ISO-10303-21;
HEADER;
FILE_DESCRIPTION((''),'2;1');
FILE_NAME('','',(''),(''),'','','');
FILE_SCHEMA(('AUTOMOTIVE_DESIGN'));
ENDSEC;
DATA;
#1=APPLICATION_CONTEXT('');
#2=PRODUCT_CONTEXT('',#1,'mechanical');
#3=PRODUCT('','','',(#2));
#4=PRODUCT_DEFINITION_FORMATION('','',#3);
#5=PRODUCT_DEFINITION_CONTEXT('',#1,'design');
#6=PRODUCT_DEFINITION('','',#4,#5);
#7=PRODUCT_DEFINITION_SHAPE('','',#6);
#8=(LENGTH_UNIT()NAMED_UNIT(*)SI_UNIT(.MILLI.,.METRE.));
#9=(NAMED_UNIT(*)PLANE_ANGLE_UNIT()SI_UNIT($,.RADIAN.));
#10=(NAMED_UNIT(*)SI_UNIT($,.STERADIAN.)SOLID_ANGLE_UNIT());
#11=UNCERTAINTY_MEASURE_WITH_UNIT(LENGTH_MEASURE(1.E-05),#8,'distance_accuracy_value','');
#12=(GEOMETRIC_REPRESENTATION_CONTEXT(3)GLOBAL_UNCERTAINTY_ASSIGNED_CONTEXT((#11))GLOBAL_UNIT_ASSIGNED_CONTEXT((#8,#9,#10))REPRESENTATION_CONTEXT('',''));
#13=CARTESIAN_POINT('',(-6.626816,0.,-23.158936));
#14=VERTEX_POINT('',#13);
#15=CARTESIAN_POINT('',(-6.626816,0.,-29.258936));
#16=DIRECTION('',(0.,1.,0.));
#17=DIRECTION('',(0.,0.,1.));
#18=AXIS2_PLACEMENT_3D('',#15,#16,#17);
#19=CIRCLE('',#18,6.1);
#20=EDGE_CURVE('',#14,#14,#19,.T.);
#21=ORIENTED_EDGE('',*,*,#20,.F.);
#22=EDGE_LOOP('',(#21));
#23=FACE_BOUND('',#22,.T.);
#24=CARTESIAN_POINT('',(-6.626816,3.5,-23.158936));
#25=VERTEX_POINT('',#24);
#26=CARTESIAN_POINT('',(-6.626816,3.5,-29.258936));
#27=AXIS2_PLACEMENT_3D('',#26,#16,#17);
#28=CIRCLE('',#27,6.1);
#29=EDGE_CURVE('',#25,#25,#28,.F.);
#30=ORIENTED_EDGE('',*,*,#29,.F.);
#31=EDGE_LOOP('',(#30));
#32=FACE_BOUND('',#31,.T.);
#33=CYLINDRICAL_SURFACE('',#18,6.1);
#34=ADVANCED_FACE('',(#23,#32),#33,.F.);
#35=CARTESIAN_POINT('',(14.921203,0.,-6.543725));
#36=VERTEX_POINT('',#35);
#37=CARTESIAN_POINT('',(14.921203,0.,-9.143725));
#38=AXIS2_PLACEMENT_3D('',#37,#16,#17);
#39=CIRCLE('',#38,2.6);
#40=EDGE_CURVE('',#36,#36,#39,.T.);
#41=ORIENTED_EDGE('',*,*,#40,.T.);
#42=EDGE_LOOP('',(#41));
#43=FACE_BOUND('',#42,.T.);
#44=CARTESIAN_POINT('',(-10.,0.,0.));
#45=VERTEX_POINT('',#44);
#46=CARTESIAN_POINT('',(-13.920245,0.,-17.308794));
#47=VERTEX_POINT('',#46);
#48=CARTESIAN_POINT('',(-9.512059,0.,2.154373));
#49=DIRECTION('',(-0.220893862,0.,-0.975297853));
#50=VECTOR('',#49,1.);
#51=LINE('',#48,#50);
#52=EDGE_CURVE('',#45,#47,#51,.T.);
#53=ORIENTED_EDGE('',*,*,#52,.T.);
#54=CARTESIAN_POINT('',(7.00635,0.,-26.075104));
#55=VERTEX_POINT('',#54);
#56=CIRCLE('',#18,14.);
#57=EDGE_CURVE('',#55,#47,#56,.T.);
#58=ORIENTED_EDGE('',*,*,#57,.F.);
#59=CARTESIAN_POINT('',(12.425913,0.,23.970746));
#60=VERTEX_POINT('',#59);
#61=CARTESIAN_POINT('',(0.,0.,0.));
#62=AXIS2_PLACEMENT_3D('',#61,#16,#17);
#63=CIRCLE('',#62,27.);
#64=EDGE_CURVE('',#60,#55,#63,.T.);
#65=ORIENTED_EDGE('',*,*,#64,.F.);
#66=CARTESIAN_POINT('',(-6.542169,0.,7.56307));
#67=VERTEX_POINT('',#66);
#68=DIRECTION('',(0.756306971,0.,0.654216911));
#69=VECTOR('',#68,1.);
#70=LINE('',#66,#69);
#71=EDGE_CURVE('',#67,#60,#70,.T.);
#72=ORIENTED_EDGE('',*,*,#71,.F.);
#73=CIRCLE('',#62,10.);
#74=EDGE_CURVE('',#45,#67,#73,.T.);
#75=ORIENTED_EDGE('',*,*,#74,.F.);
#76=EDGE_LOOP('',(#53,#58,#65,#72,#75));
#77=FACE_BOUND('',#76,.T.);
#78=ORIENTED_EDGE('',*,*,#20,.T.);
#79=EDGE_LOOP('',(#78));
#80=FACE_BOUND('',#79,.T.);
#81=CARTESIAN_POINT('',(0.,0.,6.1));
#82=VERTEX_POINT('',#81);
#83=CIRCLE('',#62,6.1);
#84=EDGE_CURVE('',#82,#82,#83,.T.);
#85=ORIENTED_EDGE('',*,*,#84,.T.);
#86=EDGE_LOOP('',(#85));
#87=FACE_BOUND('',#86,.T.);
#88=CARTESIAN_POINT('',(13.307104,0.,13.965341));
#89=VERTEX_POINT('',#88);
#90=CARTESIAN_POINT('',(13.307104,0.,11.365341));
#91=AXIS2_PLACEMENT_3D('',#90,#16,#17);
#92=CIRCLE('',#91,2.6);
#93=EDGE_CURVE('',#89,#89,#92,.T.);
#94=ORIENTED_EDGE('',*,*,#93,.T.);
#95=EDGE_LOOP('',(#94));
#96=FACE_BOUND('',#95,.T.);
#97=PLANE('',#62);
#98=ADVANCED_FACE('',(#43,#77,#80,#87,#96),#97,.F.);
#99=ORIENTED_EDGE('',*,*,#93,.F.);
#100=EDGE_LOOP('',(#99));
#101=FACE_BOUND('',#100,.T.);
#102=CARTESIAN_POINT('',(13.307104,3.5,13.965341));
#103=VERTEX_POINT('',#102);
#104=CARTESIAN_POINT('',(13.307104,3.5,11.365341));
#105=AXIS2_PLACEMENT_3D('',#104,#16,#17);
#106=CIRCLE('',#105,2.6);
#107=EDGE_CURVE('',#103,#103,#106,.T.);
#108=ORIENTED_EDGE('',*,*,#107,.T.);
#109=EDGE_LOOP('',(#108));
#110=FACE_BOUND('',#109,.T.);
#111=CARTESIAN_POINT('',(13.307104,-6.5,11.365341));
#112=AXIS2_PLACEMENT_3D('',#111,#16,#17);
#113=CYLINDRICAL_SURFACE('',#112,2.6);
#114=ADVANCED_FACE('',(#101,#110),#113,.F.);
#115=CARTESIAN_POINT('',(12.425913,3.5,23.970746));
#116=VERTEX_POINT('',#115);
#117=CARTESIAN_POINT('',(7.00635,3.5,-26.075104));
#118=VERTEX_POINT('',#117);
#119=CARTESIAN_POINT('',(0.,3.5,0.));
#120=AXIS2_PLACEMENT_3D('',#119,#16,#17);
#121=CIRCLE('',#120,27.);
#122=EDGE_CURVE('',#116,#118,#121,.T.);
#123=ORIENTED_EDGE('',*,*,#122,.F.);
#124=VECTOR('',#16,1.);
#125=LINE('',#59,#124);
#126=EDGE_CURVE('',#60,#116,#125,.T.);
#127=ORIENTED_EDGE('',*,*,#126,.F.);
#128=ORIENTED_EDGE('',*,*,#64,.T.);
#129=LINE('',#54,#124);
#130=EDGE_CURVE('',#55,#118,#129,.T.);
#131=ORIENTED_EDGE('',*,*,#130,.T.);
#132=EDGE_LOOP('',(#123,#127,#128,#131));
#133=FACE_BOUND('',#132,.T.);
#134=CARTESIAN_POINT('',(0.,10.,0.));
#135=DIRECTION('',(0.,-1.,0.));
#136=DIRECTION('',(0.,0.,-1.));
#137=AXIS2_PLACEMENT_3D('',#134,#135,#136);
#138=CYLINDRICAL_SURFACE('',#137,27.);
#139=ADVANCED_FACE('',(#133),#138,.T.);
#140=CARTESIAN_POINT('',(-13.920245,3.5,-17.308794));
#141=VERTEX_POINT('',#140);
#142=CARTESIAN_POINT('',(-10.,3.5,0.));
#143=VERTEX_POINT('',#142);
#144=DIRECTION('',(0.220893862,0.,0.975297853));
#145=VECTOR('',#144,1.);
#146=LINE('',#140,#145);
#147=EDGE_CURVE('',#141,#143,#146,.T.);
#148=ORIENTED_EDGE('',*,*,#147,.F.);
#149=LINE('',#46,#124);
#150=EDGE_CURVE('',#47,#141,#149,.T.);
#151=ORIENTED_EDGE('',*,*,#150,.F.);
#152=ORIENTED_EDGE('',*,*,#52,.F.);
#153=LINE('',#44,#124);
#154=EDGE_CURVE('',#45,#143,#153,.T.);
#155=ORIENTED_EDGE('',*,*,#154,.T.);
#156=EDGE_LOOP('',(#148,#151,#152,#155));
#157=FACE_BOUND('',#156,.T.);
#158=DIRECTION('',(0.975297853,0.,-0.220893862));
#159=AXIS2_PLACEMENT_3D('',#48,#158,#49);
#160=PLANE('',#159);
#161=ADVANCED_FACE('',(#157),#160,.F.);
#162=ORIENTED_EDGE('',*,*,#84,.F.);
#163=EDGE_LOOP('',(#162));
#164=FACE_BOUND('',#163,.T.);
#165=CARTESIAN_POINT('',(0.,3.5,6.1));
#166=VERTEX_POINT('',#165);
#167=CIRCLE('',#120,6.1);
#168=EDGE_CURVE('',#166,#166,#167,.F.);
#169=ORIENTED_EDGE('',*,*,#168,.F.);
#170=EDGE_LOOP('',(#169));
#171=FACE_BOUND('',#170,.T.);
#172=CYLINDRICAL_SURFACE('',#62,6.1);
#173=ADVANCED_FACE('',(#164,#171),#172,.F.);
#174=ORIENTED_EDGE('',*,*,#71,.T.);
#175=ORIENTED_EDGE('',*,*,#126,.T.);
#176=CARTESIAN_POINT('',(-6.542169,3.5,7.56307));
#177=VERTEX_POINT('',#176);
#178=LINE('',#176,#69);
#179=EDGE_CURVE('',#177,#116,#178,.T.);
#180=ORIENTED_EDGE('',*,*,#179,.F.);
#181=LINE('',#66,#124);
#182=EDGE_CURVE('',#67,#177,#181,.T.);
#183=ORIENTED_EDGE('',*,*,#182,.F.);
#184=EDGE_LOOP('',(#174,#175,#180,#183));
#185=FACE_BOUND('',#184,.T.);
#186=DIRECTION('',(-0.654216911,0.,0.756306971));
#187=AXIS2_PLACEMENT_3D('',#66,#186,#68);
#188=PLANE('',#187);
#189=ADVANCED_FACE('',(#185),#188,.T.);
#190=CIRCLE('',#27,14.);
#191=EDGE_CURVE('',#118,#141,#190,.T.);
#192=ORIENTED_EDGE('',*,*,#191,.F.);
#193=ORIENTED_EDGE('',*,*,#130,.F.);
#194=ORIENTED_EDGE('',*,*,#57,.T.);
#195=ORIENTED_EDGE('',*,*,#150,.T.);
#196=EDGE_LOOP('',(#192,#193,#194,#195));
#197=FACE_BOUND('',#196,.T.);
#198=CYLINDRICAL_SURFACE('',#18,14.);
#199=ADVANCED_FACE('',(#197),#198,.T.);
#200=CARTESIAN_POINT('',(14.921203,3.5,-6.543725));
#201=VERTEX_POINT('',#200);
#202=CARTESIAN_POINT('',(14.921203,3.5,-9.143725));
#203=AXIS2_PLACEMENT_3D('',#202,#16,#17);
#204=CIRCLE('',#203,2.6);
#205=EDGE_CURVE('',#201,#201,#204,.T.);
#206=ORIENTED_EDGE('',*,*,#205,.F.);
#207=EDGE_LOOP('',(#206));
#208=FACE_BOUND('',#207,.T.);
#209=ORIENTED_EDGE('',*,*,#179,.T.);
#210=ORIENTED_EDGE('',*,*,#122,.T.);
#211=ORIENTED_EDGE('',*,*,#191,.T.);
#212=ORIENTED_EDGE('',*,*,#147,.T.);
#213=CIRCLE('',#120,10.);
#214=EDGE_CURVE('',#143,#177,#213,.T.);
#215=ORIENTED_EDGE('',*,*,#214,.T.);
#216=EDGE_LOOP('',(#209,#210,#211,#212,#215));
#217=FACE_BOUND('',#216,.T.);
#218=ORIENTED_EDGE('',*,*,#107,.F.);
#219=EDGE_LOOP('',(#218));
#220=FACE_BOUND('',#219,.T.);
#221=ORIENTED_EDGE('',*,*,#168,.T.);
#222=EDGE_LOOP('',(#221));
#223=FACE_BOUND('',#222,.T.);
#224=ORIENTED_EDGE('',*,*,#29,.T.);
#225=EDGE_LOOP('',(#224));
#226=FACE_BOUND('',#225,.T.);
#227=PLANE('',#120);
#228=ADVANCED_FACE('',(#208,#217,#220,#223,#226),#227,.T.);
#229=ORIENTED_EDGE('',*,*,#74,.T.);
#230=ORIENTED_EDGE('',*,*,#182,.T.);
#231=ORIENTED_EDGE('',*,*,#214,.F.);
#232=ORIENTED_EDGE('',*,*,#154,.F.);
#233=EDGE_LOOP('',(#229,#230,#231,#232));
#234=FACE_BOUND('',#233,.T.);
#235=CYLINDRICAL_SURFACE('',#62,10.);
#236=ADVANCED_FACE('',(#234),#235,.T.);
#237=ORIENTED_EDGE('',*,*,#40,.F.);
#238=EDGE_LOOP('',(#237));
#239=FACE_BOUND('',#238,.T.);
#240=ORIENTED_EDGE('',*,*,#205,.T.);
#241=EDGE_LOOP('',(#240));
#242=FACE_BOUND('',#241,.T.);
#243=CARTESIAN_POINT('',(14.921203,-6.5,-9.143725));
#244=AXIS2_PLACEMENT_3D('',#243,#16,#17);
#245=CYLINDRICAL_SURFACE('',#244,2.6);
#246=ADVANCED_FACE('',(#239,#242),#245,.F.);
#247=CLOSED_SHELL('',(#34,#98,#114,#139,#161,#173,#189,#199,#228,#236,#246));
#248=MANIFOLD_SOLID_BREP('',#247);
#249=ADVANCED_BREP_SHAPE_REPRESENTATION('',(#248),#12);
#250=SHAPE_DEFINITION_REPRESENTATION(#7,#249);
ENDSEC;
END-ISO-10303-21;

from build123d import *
from build123d.topology import SkipClean

# Parameters (mm, degrees)
SKETCH_1_R           = 27
EXTRUDE_2_DEPTH      = 10
EXTRUDE_START        = -10
EXTRUDE_3_DEPTH      = 10
CUT_EXTRUDE_2_DEPTH  = 48.669538272
SKETCH_6_R           = 6.1
CUT_EXTRUDE_3_DEPTH  = 10
EXTRUDE_5_DEPTH      = 10
SKETCH_10_R          = 6.1
CUT_EXTRUDE_5_DEPTH  = 10
CUT_EXTRUDE_START    = -10
CUT_EXTRUDE_6_DEPTH  = 10
FILLET_1_R           = 10
EXTRUDE_7_DEPTH      = 10
CUT_EXTRUDE_START_2  = -6.5
CUT_EXTRUDE_8_DEPTH  = 6.5
CUT_EXTRUDE_9_DEPTH  = 10
CUT_EXTRUDE_10_DEPTH = 10
CUT_EXTRUDE_11_DEPTH = 55.495669072


with BuildPart() as part:
    # 草图1 → 凸台-拉伸2 (new body)
    with BuildSketch(Plane(origin=(0, 0, 0), x_dir=(1, 0, 0), z_dir=(0, 1, 0))):
        with Locations(Location((0, 0, 0), (0, 0, 270))):
            Circle(SKETCH_1_R)
    extrude(amount=EXTRUDE_2_DEPTH)

    # 草图3 → 凸台-拉伸3 (add)
    with BuildSketch(Plane(origin=(0, 10, 0), x_dir=(1, 0, 0), z_dir=(0, 1, 0)).offset(EXTRUDE_START)):
        with BuildLine():
            ThreePointArc((-3.623654542, 26.755730746), (-4.775668185, 29.776890365), (-6.810627033, 32.289554959))
            ThreePointArc((-6.810627033, 32.289554959), (-7.703697007, 32.088207373), (-8.590838072, 31.862164101))
            ThreePointArc((-8.590838072, 31.862164101), (-9.263273827, 28.699511571), (-8.918147734, 25.484635391))
            ThreePointArc((-8.918147734, 25.484635391), (-6.303024824, 26.253987851), (-3.623654542, 26.755730746))
        make_face()
        with BuildLine():
            ThreePointArc((-11.714275763, 24.326441239), (-13.743495509, 26.843742988), (-16.455312443, 28.604592156))
            ThreePointArc((-16.455312443, 28.604592156), (-17.242452636, 28.137125424), (-18.016322714, 27.648003832))
            ThreePointArc((-18.016322714, 27.648003832), (-17.678533741, 24.432348458), (-16.356847947, 21.481469346))
            ThreePointArc((-16.356847947, 21.481469346), (-14.107461247, 23.021284438), (-11.714275763, 24.326441239))
        make_face()
        with BuildLine():
            ThreePointArc((-18.658222053, 19.515910171), (-21.366013737, 21.282943016), (-24.48923722, 22.119612574))
            ThreePointArc((-24.48923722, 22.119612574), (-25.093396865, 21.431785595), (-25.678244161, 20.727464312))
            ThreePointArc((-25.678244161, 20.727464312), (-24.363295599, 17.773576848), (-22.194425918, 15.375547411))
            ThreePointArc((-22.194425918, 15.375547411), (-20.530961071, 17.535097305), (-18.658222053, 19.515910171))
        make_face()
        with BuildLine():
            ThreePointArc((-23.77577157, 12.79502584), (-26.897077674, 13.638820294), (-30.125984831, 13.469411196))
            ThreePointArc((-30.125984831, 13.469411196), (-30.488024573, 12.628553268), (-30.826600159, 11.777976169))
            ThreePointArc((-30.826600159, 11.777976169), (-28.663208335, 9.3750037), (-25.859458842, 7.764559768))
            ThreePointArc((-25.859458842, 7.764559768), (-24.944747378, 10.332452674), (-23.77577157, 12.79502584))
        make_face()
        with BuildLine():
            ThreePointArc((-26.56598291, 4.821675232), (-29.795268245, 4.659634815), (-32.813791147, 3.500730003))
            ThreePointArc((-32.813791147, 3.500730003), (-32.898272013, 2.589150159), (-32.957433752, 1.675577656))
            ThreePointArc((-32.957433752, 1.675577656), (-30.15736653, 0.05873987), (-26.993187762, -0.606477084))
            ThreePointArc((-26.993187762, -0.606477084), (-26.916768011, 2.118395585), (-26.56598291, 4.821675232))
        make_face()
        with BuildLine():
            ThreePointArc((-32.289554959, -6.810627033), (-32.088207373, -7.703697007), (-31.862164101, -8.590838072))
            ThreePointArc((-31.862164101, -8.590838072), (-28.699511571, -9.263273827), (-25.484635391, -8.918147734))
            ThreePointArc((-25.484635391, -8.918147734), (-26.253987851, -6.303024824), (-26.755730746, -3.623654542))
            ThreePointArc((-26.755730746, -3.623654542), (-29.776890365, -4.775668185), (-32.289554959, -6.810627033))
        make_face()
        with BuildLine():
            ThreePointArc((-28.604592156, -16.455312443), (-28.137125424, -17.242452636), (-27.648003832, -18.016322714))
            ThreePointArc((-27.648003832, -18.016322714), (-24.432348458, -17.678533741), (-21.481469346, -16.356847947))
            ThreePointArc((-21.481469346, -16.356847947), (-23.021284438, -14.107461247), (-24.326441239, -11.714275763))
            ThreePointArc((-24.326441239, -11.714275763), (-26.843742988, -13.743495509), (-28.604592156, -16.455312443))
        make_face()
        with BuildLine():
            ThreePointArc((-22.119612574, -24.48923722), (-21.431785595, -25.093396865), (-20.727464312, -25.678244161))
            ThreePointArc((-20.727464312, -25.678244161), (-17.773576848, -24.363295599), (-15.375547411, -22.194425918))
            ThreePointArc((-15.375547411, -22.194425918), (-17.535097305, -20.530961071), (-19.515910171, -18.658222053))
            ThreePointArc((-19.515910171, -18.658222053), (-21.282943016, -21.366013737), (-22.119612574, -24.48923722))
        make_face()
        with BuildLine():
            ThreePointArc((-13.469411196, -30.125984831), (-12.628553268, -30.488024573), (-11.777976169, -30.826600159))
            ThreePointArc((-11.777976169, -30.826600159), (-9.3750037, -28.663208335), (-7.764559768, -25.859458842))
            ThreePointArc((-7.764559768, -25.859458842), (-10.332452674, -24.944747378), (-12.79502584, -23.77577157))
            ThreePointArc((-12.79502584, -23.77577157), (-13.638820294, -26.897077674), (-13.469411196, -30.125984831))
        make_face()
        with BuildLine():
            ThreePointArc((-3.500730003, -32.813791147), (-2.589150159, -32.898272013), (-1.675577656, -32.957433752))
            ThreePointArc((-1.675577656, -32.957433752), (-0.05873987, -30.15736653), (0.606477084, -26.993187762))
            ThreePointArc((0.606477084, -26.993187762), (-2.118395585, -26.916768011), (-4.821675232, -26.56598291))
            ThreePointArc((-4.821675232, -26.56598291), (-4.659634815, -29.795268245), (-3.500730003, -32.813791147))
        make_face()
        with BuildLine():
            ThreePointArc((6.810627033, -32.289554959), (7.703697007, -32.088207373), (8.590838072, -31.862164101))
            ThreePointArc((8.590838072, -31.862164101), (9.263273827, -28.699511571), (8.918147734, -25.484635391))
            ThreePointArc((8.918147734, -25.484635391), (6.303024824, -26.253987851), (3.623654542, -26.755730746))
            ThreePointArc((3.623654542, -26.755730746), (4.775668185, -29.776890365), (6.810627033, -32.289554959))
        make_face()
        with BuildLine():
            ThreePointArc((16.455312443, -28.604592156), (17.242452636, -28.137125424), (18.016322714, -27.648003832))
            ThreePointArc((18.016322714, -27.648003832), (17.678533741, -24.432348458), (16.356847947, -21.481469346))
            ThreePointArc((16.356847947, -21.481469346), (14.107461247, -23.021284438), (11.714275763, -24.326441239))
            ThreePointArc((11.714275763, -24.326441239), (13.743495509, -26.843742988), (16.455312443, -28.604592156))
        make_face()
        with BuildLine():
            ThreePointArc((24.48923722, -22.119612574), (25.093396865, -21.431785595), (25.678244161, -20.727464312))
            ThreePointArc((25.678244161, -20.727464312), (24.363295599, -17.773576848), (22.194425918, -15.375547411))
            ThreePointArc((22.194425918, -15.375547411), (20.530961071, -17.535097305), (18.658222053, -19.515910171))
            ThreePointArc((18.658222053, -19.515910171), (21.366013737, -21.282943016), (24.48923722, -22.119612574))
        make_face()
        with BuildLine():
            ThreePointArc((30.125984831, -13.469411196), (30.488024573, -12.628553268), (30.826600159, -11.777976169))
            ThreePointArc((30.826600159, -11.777976169), (28.663208335, -9.3750037), (25.859458842, -7.764559768))
            ThreePointArc((25.859458842, -7.764559768), (24.944747378, -10.332452674), (23.77577157, -12.79502584))
            ThreePointArc((23.77577157, -12.79502584), (26.897077674, -13.638820294), (30.125984831, -13.469411196))
        make_face()
        with BuildLine():
            ThreePointArc((32.813791147, -3.500730003), (32.898272013, -2.589150159), (32.957433752, -1.675577656))
            ThreePointArc((32.957433752, -1.675577656), (30.15736653, -0.05873987), (26.993187762, 0.606477084))
            ThreePointArc((26.993187762, 0.606477084), (26.998296887, 0.303257671), (27, 0))
            ThreePointArc((27, 0), (26.891276825, -2.420584789), (26.56598291, -4.821675232))
            ThreePointArc((26.56598291, -4.821675232), (29.795268245, -4.659634815), (32.813791147, -3.500730003))
        make_face()
        with BuildLine():
            ThreePointArc((26.755730746, 3.623654542), (29.776890365, 4.775668185), (32.289554959, 6.810627033))
            ThreePointArc((32.289554959, 6.810627033), (32.088207373, 7.703697007), (31.862164101, 8.590838072))
            ThreePointArc((31.862164101, 8.590838072), (28.699511571, 9.263273827), (25.484635391, 8.918147734))
            ThreePointArc((25.484635391, 8.918147734), (26.253987851, 6.303024824), (26.755730746, 3.623654542))
        make_face()
        with BuildLine():
            ThreePointArc((24.326441239, 11.714275763), (26.843742988, 13.743495509), (28.604592156, 16.455312443))
            ThreePointArc((28.604592156, 16.455312443), (28.137125424, 17.242452636), (27.648003832, 18.016322714))
            ThreePointArc((27.648003832, 18.016322714), (24.432348458, 17.678533741), (21.481469346, 16.356847947))
            ThreePointArc((21.481469346, 16.356847947), (23.021284438, 14.107461247), (24.326441239, 11.714275763))
        make_face()
        with BuildLine():
            ThreePointArc((19.515910171, 18.658222053), (21.282943016, 21.366013737), (22.119612574, 24.48923722))
            ThreePointArc((22.119612574, 24.48923722), (21.431785595, 25.093396865), (20.727464312, 25.678244161))
            ThreePointArc((20.727464312, 25.678244161), (17.773576848, 24.363295599), (15.375547411, 22.194425918))
            ThreePointArc((15.375547411, 22.194425918), (17.535097305, 20.530961071), (19.515910171, 18.658222053))
        make_face()
        with BuildLine():
            ThreePointArc((12.79502584, 23.77577157), (13.638820294, 26.897077674), (13.469411196, 30.125984831))
            ThreePointArc((13.469411196, 30.125984831), (12.628553268, 30.488024573), (11.777976169, 30.826600159))
            ThreePointArc((11.777976169, 30.826600159), (9.3750037, 28.663208335), (7.764559768, 25.859458842))
            ThreePointArc((7.764559768, 25.859458842), (10.332452674, 24.944747378), (12.79502584, 23.77577157))
        make_face()
        with BuildLine():
            ThreePointArc((4.821675232, 26.56598291), (4.659634815, 29.795268245), (3.500730003, 32.813791147))
            ThreePointArc((3.500730003, 32.813791147), (2.589150159, 32.898272013), (1.675577656, 32.957433752))
            ThreePointArc((1.675577656, 32.957433752), (0.05873987, 30.15736653), (-0.606477084, 26.993187762))
            ThreePointArc((-0.606477084, 26.993187762), (2.118395585, 26.916768011), (4.821675232, 26.56598291))
        make_face()
    extrude(amount=EXTRUDE_3_DEPTH)

    # 草图4 → 切除-拉伸2 (cut, through all)
    with BuildSketch(Plane(origin=(0, 10, 0), x_dir=(1, 0, 0), z_dir=(0, 1, 0))):
        with BuildLine():
            Line((68.70942434, -72.656830422), (-6.542169106, -7.563069707))
            ThreePointArc((-6.542169106, -7.563069707), (-9.614988938, -2.748088014), (-9.550796477, 2.963492306))
            Line((-9.550796477, 2.963492306), (-2.118395585, 26.916768011))
            Line((-2.118395585, 26.916768011), (19.935579671, 97.992717399))
            ThreePointArc((19.935579671, 97.992717399), (-96.149889375, -27.480880138), (68.70942434, -72.656830422))
        make_face()
    extrude(amount=-CUT_EXTRUDE_2_DEPTH, mode=Mode.SUBTRACT)

    # 草图6 → 切除-拉伸3 (cut)
    with BuildSketch(Plane(origin=(0, 10, 0), x_dir=(1, 0, 0), z_dir=(0, 1, 0))):
        with Locations(Location((0, 0, 0), (0, 0, 270))):
            Circle(SKETCH_6_R)
    extrude(amount=-CUT_EXTRUDE_3_DEPTH, mode=Mode.SUBTRACT)

    # 草图9 → 凸台-拉伸5 (add)
    with BuildSketch(Plane(origin=(0, 10, 0), x_dir=(1, 0, 0), z_dir=(0, 1, 0)).offset(EXTRUDE_START)):
        with BuildLine():
            Line((-18.337271569, 36.810995995), (-10, 0))
            ThreePointArc((-10, 0), (-9.887061363, 1.49867195), (-9.550796477, 2.963492306))
            Line((-9.550796477, 2.963492306), (-2.118395585, 26.916768011))
            ThreePointArc((-2.118395585, 26.916768011), (-1.362972032, 26.965576338), (-0.606477084, 26.993187762))
            ThreePointArc((-0.606477084, 26.993187762), (0.05873987, 30.15736653), (1.675577656, 32.957433752))
            ThreePointArc((1.675577656, 32.957433752), (2.589150159, 32.898272013), (3.500730003, 32.813791147))
            ThreePointArc((3.500730003, 32.813791147), (4.659634815, 29.795268245), (4.821675232, 26.56598291))
            Line((4.821675232, 26.56598291), (7.168022985, 33.612773021))
            ThreePointArc((7.168022985, 33.612773021), (-5.303969741, 37.450057719), (-18.337271569, 36.810995995))
        make_face()
    extrude(amount=EXTRUDE_5_DEPTH)

    # 草图10 → 切除-拉伸5 (cut)
    with BuildSketch(Plane(origin=(0, 10, 0), x_dir=(1, 0, 0), z_dir=(0, 1, 0))):
        with Locations(Location((-6.626815852, 29.258935587, 0), (0, 0, 270))):
            Circle(SKETCH_10_R)
    extrude(amount=-CUT_EXTRUDE_5_DEPTH, mode=Mode.SUBTRACT)

    # 草图11 → 切除-拉伸6 (cut)
    with BuildSketch(Plane(origin=(0, 10, 0), x_dir=(1, 0, 0), z_dir=(0, 1, 0)).offset(CUT_EXTRUDE_START)):
        with BuildLine():
            Line((0, 36.394498532), (3.500730003, 32.813791147))
            ThreePointArc((3.500730003, 32.813791147), (4.659634815, 29.795268245), (4.821675232, 26.56598291))
            Line((4.821675232, 26.56598291), (7.168022985, 33.612773021))
            ThreePointArc((7.168022985, 33.612773021), (3.655030847, 35.186640305), (0, 36.394498532))
        make_face()
    extrude(amount=CUT_EXTRUDE_6_DEPTH, mode=Mode.SUBTRACT)

    # 圆角1
    fillet_1_edges = [part.edges().sort_by_distance(p)[0] for p in [
        (-18.337271569, 5, -36.810995995),
    ]]
    fillet(fillet_1_edges, radius=FILLET_1_R)

    # 草图16 → 凸台-拉伸7 (add)
    with BuildSketch(Plane(origin=(0, 10, 0), x_dir=(1, 0, 0), z_dir=(0, 1, 0)).offset(EXTRUDE_START)):
        with BuildLine():
            Line((-13.920244702, 17.308793512), (-15.716384779, 25.239170332))
            ThreePointArc((-15.716384779, 25.239170332), (-13.300434171, 34.242814336), (-4.508428545, 37.341694744))
            ThreePointArc((-4.508428545, 37.341694744), (-2.23974925, 36.936946702), (0, 36.394498532))
            Line((0, 36.394498532), (3.500730003, 32.813791147))
            ThreePointArc((3.500730003, 32.813791147), (4.659634815, 29.795268245), (4.821675232, 26.56598291))
            ThreePointArc((4.821675232, 26.56598291), (5.919103569, 26.343200507), (7.006350229, 26.075104151))
            ThreePointArc((7.006350229, 26.075104151), (7.281173311, 27.65648826), (7.373184148, 29.258935587))
            ThreePointArc((7.373184148, 29.258935587), (-13.478530824, 41.467703008), (-13.920244702, 17.308793512))
        make_face()
    extrude(amount=EXTRUDE_7_DEPTH)

    # 草图17 → 切除-拉伸8 (cut)
    with BuildSketch(Plane(origin=(0, 10, 0), x_dir=(1, 0, 0), z_dir=(0, 1, 0)).offset(CUT_EXTRUDE_START_2)):
        with BuildLine():
            Line((-13.920244702, 17.308793512), (-10, 0))
            ThreePointArc((-10, 0), (-9.09455032, -4.158022904), (-6.542169106, -7.563069707))
            Line((-6.542169106, -7.563069707), (17.242452636, -28.137125424))
            ThreePointArc((17.242452636, -28.137125424), (17.631083908, -27.895248345), (18.016322714, -27.648003832))
            ThreePointArc((18.016322714, -27.648003832), (17.678533741, -24.432348458), (16.356847947, -21.481469346))
            ThreePointArc((16.356847947, -21.481469346), (17.535097305, -20.530961071), (18.658222053, -19.515910171))
            ThreePointArc((18.658222053, -19.515910171), (21.366013737, -21.282943016), (24.48923722, -22.119612574))
            ThreePointArc((24.48923722, -22.119612574), (25.093396865, -21.431785595), (25.678244161, -20.727464312))
            ThreePointArc((25.678244161, -20.727464312), (24.363295599, -17.773576848), (22.194425918, -15.375547411))
            ThreePointArc((22.194425918, -15.375547411), (23.021284438, -14.107461247), (23.77577157, -12.79502584))
            ThreePointArc((23.77577157, -12.79502584), (26.897077674, -13.638820294), (30.125984831, -13.469411196))
            ThreePointArc((30.125984831, -13.469411196), (30.488024573, -12.628553268), (30.826600159, -11.777976169))
            ThreePointArc((30.826600159, -11.777976169), (28.663208335, -9.3750037), (25.859458842, -7.764559768))
            ThreePointArc((25.859458842, -7.764559768), (26.253987851, -6.303024824), (26.56598291, -4.821675232))
            ThreePointArc((26.56598291, -4.821675232), (29.795268245, -4.659634815), (32.813791147, -3.500730003))
            ThreePointArc((32.813791147, -3.500730003), (32.898272013, -2.589150159), (32.957433752, -1.675577656))
            ThreePointArc((32.957433752, -1.675577656), (30.15736653, -0.05873987), (26.993187762, 0.606477084))
            ThreePointArc((26.993187762, 0.606477084), (26.916768011, 2.118395585), (26.755730746, 3.623654542))
            ThreePointArc((26.755730746, 3.623654542), (29.776890365, 4.775668185), (32.289554959, 6.810627033))
            ThreePointArc((32.289554959, 6.810627033), (32.088207373, 7.703697007), (31.862164101, 8.590838072))
            ThreePointArc((31.862164101, 8.590838072), (28.699511571, 9.263273827), (25.484635391, 8.918147734))
            ThreePointArc((25.484635391, 8.918147734), (24.944747378, 10.332452674), (24.326441239, 11.714275763))
            ThreePointArc((24.326441239, 11.714275763), (26.843742988, 13.743495509), (28.604592156, 16.455312443))
            ThreePointArc((28.604592156, 16.455312443), (28.137125424, 17.242452636), (27.648003832, 18.016322714))
            ThreePointArc((27.648003832, 18.016322714), (24.432348458, 17.678533741), (21.481469346, 16.356847947))
            ThreePointArc((21.481469346, 16.356847947), (20.530961071, 17.535097305), (19.515910171, 18.658222053))
            ThreePointArc((19.515910171, 18.658222053), (21.282943016, 21.366013737), (22.119612574, 24.48923722))
            ThreePointArc((22.119612574, 24.48923722), (21.431785595, 25.093396865), (20.727464312, 25.678244161))
            ThreePointArc((20.727464312, 25.678244161), (17.773576848, 24.363295599), (15.375547411, 22.194425918))
            ThreePointArc((15.375547411, 22.194425918), (14.107461247, 23.021284438), (12.79502584, 23.77577157))
            ThreePointArc((12.79502584, 23.77577157), (13.638820294, 26.897077674), (13.469411196, 30.125984831))
            ThreePointArc((13.469411196, 30.125984831), (12.628553268, 30.488024573), (11.777976169, 30.826600159))
            ThreePointArc((11.777976169, 30.826600159), (9.3750037, 28.663208335), (7.764559768, 25.859458842))
            ThreePointArc((7.764559768, 25.859458842), (7.386242025, 25.970048686), (7.006350229, 26.075104151))
            ThreePointArc((7.006350229, 26.075104151), (-12.036078056, 42.171715396), (-13.920244702, 17.308793512))
        make_face()
    extrude(amount=CUT_EXTRUDE_8_DEPTH, mode=Mode.SUBTRACT)

    # 草图19 → 切除-拉伸9 (cut)
    with BuildSketch(Plane(origin=(0, 3.5, 0), x_dir=(1, 0, 0), z_dir=(0, 1, 0))):
        with BuildLine():
            ThreePointArc((17.521202876, 9.143724883), (17.423586491, 9.849470052), (17.138067304, 10.502221151))
            Line((17.138067304, 10.502221151), (14.921202876, 9.143724883))
            ThreePointArc((14.921202876, 9.143724883), (15.559223715, 8.01002855), (16.111264261, 6.832068788))
            ThreePointArc((16.111264261, 6.832068788), (17.140905514, 7.78987105), (17.521202876, 9.143724883))
        make_face()
        with BuildLine():
            Line((14.921202876, 9.143724883), (17.138067304, 10.502221151))
            ThreePointArc((17.138067304, 10.502221151), (15.433773338, 11.692699485), (13.401778777, 11.253547246))
            ThreePointArc((13.401778777, 11.253547246), (14.200727447, 10.226892977), (14.921202876, 9.143724883))
        make_face()
        with BuildLine():
            ThreePointArc((16.111264261, 6.832068788), (15.559223715, 8.01002855), (14.921202876, 9.143724883))
            Line((14.921202876, 9.143724883), (12.704338449, 7.785228614))
            ThreePointArc((12.704338449, 7.785228614), (14.220696248, 6.639869762), (16.111264261, 6.832068788))
        make_face()
        with BuildLine():
            Line((12.704338449, 7.785228614), (14.921202876, 9.143724883))
            ThreePointArc((14.921202876, 9.143724883), (14.200727447, 10.226892977), (13.401778777, 11.253547246))
            ThreePointArc((13.401778777, 11.253547246), (12.372228274, 9.656295344), (12.704338449, 7.785228614))
        make_face()
        with BuildLine():
            ThreePointArc((11.330048887, -9.67677592), (10.709328217, -11.472853236), (11.476337998, -13.211497499))
            ThreePointArc((11.476337998, -13.211497499), (12.426054396, -12.322466156), (13.307104398, -11.365340846))
            Line((13.307104398, -11.365340846), (11.330048887, -9.67677592))
        make_face()
        with BuildLine():
            ThreePointArc((13.307104398, -11.365340846), (12.426054396, -12.322466156), (11.476337998, -13.211497499))
            ThreePointArc((11.476337998, -13.211497499), (13.414616788, -13.963117027), (15.284159909, -13.053905771))
            Line((15.284159909, -13.053905771), (13.307104398, -11.365340846))
        make_face()
        with BuildLine():
            ThreePointArc((14.844136837, -9.268311689), (13.006911405, -8.782728957), (11.330048887, -9.67677592))
            Line((11.330048887, -9.67677592), (13.307104398, -11.365340846))
            ThreePointArc((13.307104398, -11.365340846), (14.114619321, -10.345410645), (14.844136837, -9.268311689))
        make_face()
        with BuildLine():
            ThreePointArc((15.907104398, -11.365340846), (15.626186581, -10.189816354), (14.844136837, -9.268311689))
            ThreePointArc((14.844136837, -9.268311689), (14.114619321, -10.345410645), (13.307104398, -11.365340846))
            Line((13.307104398, -11.365340846), (15.284159909, -13.053905771))
            ThreePointArc((15.284159909, -13.053905771), (15.746401871, -12.265245194), (15.907104398, -11.365340846))
        make_face()
    extrude(amount=-CUT_EXTRUDE_9_DEPTH, mode=Mode.SUBTRACT)

    # 草图20 → 切除-拉伸10 (cut)
    with SkipClean():  # the faces are left unmerged after this step: merging them gives an invalid solid
        with BuildSketch(Plane(origin=(0, 3.5, 0), x_dir=(1, 0, 0), z_dir=(0, 1, 0)).offset(CUT_EXTRUDE_START)):
            with BuildLine():
                ThreePointArc((11.777976169, 30.826600159), (9.3750037, 28.663208335), (7.764559768, 25.859458842))
                ThreePointArc((7.764559768, 25.859458842), (10.332452674, 24.944747378), (12.79502584, 23.77577157))
                ThreePointArc((12.79502584, 23.77577157), (13.638820294, 26.897077674), (13.469411196, 30.125984831))
                ThreePointArc((13.469411196, 30.125984831), (12.628553268, 30.488024573), (11.777976169, 30.826600159))
            make_face()
        extrude(amount=CUT_EXTRUDE_10_DEPTH, mode=Mode.SUBTRACT)

    # 草图22 → 切除-拉伸11 (cut, through all)
    with SkipClean():  # the faces are left unmerged after this step: merging them gives an invalid solid
        with BuildSketch(Plane(origin=(0, 3.5, 0), x_dir=(1, 0, 0), z_dir=(0, 1, 0))):
            with BuildLine():
                ThreePointArc((20.727464312, 25.678244161), (17.773576848, 24.363295599), (15.375547411, 22.194425918))
                ThreePointArc((15.375547411, 22.194425918), (17.535097305, 20.530961071), (19.515910171, 18.658222053))
                ThreePointArc((19.515910171, 18.658222053), (21.282943016, 21.366013737), (22.119612574, 24.48923722))
                ThreePointArc((22.119612574, 24.48923722), (21.431785595, 25.093396865), (20.727464312, 25.678244161))
            make_face()
            with BuildLine():
                ThreePointArc((27.648003832, 18.016322714), (24.432348458, 17.678533741), (21.481469346, 16.356847947))
                ThreePointArc((21.481469346, 16.356847947), (23.021284438, 14.107461247), (24.326441239, 11.714275763))
                ThreePointArc((24.326441239, 11.714275763), (26.843742988, 13.743495509), (28.604592156, 16.455312443))
                ThreePointArc((28.604592156, 16.455312443), (28.137125424, 17.242452636), (27.648003832, 18.016322714))
            make_face()
            with BuildLine():
                ThreePointArc((31.862164101, 8.590838072), (28.699511571, 9.263273827), (25.484635391, 8.918147734))
                ThreePointArc((25.484635391, 8.918147734), (26.253987851, 6.303024824), (26.755730746, 3.623654542))
                ThreePointArc((26.755730746, 3.623654542), (29.776890365, 4.775668185), (32.289554959, 6.810627033))
                ThreePointArc((32.289554959, 6.810627033), (32.088207373, 7.703697007), (31.862164101, 8.590838072))
            make_face()
            with BuildLine():
                ThreePointArc((27, 0), (26.891276825, -2.420584789), (26.56598291, -4.821675232))
                ThreePointArc((26.56598291, -4.821675232), (29.795268245, -4.659634815), (32.813791147, -3.500730003))
                ThreePointArc((32.813791147, -3.500730003), (32.898272013, -2.589150159), (32.957433752, -1.675577656))
                ThreePointArc((32.957433752, -1.675577656), (30.15736653, -0.05873987), (26.993187762, 0.606477084))
                ThreePointArc((26.993187762, 0.606477084), (26.998296887, 0.303257671), (27, 0))
            make_face()
            with BuildLine():
                ThreePointArc((25.859458842, -7.764559768), (24.944747378, -10.332452674), (23.77577157, -12.79502584))
                ThreePointArc((23.77577157, -12.79502584), (26.897077674, -13.638820294), (30.125984831, -13.469411196))
                ThreePointArc((30.125984831, -13.469411196), (30.488024573, -12.628553268), (30.826600159, -11.777976169))
                ThreePointArc((30.826600159, -11.777976169), (28.663208335, -9.3750037), (25.859458842, -7.764559768))
            make_face()
            with BuildLine():
                ThreePointArc((22.194425918, -15.375547411), (20.530961071, -17.535097305), (18.658222053, -19.515910171))
                ThreePointArc((18.658222053, -19.515910171), (21.366013737, -21.282943016), (24.48923722, -22.119612574))
                ThreePointArc((24.48923722, -22.119612574), (25.093396865, -21.431785595), (25.678244161, -20.727464312))
                ThreePointArc((25.678244161, -20.727464312), (24.363295599, -17.773576848), (22.194425918, -15.375547411))
            make_face()
            with BuildLine():
                ThreePointArc((16.356847947, -21.481469346), (14.445101596, -22.810941232), (12.425913221, -23.970746351))
                Line((12.425913221, -23.970746351), (17.242452636, -28.137125424))
                ThreePointArc((17.242452636, -28.137125424), (17.631083908, -27.895248345), (18.016322714, -27.648003832))
                ThreePointArc((18.016322714, -27.648003832), (17.678533741, -24.432348458), (16.356847947, -21.481469346))
            make_face()
        extrude(amount=-CUT_EXTRUDE_11_DEPTH, mode=Mode.SUBTRACT)


solid = part.part
